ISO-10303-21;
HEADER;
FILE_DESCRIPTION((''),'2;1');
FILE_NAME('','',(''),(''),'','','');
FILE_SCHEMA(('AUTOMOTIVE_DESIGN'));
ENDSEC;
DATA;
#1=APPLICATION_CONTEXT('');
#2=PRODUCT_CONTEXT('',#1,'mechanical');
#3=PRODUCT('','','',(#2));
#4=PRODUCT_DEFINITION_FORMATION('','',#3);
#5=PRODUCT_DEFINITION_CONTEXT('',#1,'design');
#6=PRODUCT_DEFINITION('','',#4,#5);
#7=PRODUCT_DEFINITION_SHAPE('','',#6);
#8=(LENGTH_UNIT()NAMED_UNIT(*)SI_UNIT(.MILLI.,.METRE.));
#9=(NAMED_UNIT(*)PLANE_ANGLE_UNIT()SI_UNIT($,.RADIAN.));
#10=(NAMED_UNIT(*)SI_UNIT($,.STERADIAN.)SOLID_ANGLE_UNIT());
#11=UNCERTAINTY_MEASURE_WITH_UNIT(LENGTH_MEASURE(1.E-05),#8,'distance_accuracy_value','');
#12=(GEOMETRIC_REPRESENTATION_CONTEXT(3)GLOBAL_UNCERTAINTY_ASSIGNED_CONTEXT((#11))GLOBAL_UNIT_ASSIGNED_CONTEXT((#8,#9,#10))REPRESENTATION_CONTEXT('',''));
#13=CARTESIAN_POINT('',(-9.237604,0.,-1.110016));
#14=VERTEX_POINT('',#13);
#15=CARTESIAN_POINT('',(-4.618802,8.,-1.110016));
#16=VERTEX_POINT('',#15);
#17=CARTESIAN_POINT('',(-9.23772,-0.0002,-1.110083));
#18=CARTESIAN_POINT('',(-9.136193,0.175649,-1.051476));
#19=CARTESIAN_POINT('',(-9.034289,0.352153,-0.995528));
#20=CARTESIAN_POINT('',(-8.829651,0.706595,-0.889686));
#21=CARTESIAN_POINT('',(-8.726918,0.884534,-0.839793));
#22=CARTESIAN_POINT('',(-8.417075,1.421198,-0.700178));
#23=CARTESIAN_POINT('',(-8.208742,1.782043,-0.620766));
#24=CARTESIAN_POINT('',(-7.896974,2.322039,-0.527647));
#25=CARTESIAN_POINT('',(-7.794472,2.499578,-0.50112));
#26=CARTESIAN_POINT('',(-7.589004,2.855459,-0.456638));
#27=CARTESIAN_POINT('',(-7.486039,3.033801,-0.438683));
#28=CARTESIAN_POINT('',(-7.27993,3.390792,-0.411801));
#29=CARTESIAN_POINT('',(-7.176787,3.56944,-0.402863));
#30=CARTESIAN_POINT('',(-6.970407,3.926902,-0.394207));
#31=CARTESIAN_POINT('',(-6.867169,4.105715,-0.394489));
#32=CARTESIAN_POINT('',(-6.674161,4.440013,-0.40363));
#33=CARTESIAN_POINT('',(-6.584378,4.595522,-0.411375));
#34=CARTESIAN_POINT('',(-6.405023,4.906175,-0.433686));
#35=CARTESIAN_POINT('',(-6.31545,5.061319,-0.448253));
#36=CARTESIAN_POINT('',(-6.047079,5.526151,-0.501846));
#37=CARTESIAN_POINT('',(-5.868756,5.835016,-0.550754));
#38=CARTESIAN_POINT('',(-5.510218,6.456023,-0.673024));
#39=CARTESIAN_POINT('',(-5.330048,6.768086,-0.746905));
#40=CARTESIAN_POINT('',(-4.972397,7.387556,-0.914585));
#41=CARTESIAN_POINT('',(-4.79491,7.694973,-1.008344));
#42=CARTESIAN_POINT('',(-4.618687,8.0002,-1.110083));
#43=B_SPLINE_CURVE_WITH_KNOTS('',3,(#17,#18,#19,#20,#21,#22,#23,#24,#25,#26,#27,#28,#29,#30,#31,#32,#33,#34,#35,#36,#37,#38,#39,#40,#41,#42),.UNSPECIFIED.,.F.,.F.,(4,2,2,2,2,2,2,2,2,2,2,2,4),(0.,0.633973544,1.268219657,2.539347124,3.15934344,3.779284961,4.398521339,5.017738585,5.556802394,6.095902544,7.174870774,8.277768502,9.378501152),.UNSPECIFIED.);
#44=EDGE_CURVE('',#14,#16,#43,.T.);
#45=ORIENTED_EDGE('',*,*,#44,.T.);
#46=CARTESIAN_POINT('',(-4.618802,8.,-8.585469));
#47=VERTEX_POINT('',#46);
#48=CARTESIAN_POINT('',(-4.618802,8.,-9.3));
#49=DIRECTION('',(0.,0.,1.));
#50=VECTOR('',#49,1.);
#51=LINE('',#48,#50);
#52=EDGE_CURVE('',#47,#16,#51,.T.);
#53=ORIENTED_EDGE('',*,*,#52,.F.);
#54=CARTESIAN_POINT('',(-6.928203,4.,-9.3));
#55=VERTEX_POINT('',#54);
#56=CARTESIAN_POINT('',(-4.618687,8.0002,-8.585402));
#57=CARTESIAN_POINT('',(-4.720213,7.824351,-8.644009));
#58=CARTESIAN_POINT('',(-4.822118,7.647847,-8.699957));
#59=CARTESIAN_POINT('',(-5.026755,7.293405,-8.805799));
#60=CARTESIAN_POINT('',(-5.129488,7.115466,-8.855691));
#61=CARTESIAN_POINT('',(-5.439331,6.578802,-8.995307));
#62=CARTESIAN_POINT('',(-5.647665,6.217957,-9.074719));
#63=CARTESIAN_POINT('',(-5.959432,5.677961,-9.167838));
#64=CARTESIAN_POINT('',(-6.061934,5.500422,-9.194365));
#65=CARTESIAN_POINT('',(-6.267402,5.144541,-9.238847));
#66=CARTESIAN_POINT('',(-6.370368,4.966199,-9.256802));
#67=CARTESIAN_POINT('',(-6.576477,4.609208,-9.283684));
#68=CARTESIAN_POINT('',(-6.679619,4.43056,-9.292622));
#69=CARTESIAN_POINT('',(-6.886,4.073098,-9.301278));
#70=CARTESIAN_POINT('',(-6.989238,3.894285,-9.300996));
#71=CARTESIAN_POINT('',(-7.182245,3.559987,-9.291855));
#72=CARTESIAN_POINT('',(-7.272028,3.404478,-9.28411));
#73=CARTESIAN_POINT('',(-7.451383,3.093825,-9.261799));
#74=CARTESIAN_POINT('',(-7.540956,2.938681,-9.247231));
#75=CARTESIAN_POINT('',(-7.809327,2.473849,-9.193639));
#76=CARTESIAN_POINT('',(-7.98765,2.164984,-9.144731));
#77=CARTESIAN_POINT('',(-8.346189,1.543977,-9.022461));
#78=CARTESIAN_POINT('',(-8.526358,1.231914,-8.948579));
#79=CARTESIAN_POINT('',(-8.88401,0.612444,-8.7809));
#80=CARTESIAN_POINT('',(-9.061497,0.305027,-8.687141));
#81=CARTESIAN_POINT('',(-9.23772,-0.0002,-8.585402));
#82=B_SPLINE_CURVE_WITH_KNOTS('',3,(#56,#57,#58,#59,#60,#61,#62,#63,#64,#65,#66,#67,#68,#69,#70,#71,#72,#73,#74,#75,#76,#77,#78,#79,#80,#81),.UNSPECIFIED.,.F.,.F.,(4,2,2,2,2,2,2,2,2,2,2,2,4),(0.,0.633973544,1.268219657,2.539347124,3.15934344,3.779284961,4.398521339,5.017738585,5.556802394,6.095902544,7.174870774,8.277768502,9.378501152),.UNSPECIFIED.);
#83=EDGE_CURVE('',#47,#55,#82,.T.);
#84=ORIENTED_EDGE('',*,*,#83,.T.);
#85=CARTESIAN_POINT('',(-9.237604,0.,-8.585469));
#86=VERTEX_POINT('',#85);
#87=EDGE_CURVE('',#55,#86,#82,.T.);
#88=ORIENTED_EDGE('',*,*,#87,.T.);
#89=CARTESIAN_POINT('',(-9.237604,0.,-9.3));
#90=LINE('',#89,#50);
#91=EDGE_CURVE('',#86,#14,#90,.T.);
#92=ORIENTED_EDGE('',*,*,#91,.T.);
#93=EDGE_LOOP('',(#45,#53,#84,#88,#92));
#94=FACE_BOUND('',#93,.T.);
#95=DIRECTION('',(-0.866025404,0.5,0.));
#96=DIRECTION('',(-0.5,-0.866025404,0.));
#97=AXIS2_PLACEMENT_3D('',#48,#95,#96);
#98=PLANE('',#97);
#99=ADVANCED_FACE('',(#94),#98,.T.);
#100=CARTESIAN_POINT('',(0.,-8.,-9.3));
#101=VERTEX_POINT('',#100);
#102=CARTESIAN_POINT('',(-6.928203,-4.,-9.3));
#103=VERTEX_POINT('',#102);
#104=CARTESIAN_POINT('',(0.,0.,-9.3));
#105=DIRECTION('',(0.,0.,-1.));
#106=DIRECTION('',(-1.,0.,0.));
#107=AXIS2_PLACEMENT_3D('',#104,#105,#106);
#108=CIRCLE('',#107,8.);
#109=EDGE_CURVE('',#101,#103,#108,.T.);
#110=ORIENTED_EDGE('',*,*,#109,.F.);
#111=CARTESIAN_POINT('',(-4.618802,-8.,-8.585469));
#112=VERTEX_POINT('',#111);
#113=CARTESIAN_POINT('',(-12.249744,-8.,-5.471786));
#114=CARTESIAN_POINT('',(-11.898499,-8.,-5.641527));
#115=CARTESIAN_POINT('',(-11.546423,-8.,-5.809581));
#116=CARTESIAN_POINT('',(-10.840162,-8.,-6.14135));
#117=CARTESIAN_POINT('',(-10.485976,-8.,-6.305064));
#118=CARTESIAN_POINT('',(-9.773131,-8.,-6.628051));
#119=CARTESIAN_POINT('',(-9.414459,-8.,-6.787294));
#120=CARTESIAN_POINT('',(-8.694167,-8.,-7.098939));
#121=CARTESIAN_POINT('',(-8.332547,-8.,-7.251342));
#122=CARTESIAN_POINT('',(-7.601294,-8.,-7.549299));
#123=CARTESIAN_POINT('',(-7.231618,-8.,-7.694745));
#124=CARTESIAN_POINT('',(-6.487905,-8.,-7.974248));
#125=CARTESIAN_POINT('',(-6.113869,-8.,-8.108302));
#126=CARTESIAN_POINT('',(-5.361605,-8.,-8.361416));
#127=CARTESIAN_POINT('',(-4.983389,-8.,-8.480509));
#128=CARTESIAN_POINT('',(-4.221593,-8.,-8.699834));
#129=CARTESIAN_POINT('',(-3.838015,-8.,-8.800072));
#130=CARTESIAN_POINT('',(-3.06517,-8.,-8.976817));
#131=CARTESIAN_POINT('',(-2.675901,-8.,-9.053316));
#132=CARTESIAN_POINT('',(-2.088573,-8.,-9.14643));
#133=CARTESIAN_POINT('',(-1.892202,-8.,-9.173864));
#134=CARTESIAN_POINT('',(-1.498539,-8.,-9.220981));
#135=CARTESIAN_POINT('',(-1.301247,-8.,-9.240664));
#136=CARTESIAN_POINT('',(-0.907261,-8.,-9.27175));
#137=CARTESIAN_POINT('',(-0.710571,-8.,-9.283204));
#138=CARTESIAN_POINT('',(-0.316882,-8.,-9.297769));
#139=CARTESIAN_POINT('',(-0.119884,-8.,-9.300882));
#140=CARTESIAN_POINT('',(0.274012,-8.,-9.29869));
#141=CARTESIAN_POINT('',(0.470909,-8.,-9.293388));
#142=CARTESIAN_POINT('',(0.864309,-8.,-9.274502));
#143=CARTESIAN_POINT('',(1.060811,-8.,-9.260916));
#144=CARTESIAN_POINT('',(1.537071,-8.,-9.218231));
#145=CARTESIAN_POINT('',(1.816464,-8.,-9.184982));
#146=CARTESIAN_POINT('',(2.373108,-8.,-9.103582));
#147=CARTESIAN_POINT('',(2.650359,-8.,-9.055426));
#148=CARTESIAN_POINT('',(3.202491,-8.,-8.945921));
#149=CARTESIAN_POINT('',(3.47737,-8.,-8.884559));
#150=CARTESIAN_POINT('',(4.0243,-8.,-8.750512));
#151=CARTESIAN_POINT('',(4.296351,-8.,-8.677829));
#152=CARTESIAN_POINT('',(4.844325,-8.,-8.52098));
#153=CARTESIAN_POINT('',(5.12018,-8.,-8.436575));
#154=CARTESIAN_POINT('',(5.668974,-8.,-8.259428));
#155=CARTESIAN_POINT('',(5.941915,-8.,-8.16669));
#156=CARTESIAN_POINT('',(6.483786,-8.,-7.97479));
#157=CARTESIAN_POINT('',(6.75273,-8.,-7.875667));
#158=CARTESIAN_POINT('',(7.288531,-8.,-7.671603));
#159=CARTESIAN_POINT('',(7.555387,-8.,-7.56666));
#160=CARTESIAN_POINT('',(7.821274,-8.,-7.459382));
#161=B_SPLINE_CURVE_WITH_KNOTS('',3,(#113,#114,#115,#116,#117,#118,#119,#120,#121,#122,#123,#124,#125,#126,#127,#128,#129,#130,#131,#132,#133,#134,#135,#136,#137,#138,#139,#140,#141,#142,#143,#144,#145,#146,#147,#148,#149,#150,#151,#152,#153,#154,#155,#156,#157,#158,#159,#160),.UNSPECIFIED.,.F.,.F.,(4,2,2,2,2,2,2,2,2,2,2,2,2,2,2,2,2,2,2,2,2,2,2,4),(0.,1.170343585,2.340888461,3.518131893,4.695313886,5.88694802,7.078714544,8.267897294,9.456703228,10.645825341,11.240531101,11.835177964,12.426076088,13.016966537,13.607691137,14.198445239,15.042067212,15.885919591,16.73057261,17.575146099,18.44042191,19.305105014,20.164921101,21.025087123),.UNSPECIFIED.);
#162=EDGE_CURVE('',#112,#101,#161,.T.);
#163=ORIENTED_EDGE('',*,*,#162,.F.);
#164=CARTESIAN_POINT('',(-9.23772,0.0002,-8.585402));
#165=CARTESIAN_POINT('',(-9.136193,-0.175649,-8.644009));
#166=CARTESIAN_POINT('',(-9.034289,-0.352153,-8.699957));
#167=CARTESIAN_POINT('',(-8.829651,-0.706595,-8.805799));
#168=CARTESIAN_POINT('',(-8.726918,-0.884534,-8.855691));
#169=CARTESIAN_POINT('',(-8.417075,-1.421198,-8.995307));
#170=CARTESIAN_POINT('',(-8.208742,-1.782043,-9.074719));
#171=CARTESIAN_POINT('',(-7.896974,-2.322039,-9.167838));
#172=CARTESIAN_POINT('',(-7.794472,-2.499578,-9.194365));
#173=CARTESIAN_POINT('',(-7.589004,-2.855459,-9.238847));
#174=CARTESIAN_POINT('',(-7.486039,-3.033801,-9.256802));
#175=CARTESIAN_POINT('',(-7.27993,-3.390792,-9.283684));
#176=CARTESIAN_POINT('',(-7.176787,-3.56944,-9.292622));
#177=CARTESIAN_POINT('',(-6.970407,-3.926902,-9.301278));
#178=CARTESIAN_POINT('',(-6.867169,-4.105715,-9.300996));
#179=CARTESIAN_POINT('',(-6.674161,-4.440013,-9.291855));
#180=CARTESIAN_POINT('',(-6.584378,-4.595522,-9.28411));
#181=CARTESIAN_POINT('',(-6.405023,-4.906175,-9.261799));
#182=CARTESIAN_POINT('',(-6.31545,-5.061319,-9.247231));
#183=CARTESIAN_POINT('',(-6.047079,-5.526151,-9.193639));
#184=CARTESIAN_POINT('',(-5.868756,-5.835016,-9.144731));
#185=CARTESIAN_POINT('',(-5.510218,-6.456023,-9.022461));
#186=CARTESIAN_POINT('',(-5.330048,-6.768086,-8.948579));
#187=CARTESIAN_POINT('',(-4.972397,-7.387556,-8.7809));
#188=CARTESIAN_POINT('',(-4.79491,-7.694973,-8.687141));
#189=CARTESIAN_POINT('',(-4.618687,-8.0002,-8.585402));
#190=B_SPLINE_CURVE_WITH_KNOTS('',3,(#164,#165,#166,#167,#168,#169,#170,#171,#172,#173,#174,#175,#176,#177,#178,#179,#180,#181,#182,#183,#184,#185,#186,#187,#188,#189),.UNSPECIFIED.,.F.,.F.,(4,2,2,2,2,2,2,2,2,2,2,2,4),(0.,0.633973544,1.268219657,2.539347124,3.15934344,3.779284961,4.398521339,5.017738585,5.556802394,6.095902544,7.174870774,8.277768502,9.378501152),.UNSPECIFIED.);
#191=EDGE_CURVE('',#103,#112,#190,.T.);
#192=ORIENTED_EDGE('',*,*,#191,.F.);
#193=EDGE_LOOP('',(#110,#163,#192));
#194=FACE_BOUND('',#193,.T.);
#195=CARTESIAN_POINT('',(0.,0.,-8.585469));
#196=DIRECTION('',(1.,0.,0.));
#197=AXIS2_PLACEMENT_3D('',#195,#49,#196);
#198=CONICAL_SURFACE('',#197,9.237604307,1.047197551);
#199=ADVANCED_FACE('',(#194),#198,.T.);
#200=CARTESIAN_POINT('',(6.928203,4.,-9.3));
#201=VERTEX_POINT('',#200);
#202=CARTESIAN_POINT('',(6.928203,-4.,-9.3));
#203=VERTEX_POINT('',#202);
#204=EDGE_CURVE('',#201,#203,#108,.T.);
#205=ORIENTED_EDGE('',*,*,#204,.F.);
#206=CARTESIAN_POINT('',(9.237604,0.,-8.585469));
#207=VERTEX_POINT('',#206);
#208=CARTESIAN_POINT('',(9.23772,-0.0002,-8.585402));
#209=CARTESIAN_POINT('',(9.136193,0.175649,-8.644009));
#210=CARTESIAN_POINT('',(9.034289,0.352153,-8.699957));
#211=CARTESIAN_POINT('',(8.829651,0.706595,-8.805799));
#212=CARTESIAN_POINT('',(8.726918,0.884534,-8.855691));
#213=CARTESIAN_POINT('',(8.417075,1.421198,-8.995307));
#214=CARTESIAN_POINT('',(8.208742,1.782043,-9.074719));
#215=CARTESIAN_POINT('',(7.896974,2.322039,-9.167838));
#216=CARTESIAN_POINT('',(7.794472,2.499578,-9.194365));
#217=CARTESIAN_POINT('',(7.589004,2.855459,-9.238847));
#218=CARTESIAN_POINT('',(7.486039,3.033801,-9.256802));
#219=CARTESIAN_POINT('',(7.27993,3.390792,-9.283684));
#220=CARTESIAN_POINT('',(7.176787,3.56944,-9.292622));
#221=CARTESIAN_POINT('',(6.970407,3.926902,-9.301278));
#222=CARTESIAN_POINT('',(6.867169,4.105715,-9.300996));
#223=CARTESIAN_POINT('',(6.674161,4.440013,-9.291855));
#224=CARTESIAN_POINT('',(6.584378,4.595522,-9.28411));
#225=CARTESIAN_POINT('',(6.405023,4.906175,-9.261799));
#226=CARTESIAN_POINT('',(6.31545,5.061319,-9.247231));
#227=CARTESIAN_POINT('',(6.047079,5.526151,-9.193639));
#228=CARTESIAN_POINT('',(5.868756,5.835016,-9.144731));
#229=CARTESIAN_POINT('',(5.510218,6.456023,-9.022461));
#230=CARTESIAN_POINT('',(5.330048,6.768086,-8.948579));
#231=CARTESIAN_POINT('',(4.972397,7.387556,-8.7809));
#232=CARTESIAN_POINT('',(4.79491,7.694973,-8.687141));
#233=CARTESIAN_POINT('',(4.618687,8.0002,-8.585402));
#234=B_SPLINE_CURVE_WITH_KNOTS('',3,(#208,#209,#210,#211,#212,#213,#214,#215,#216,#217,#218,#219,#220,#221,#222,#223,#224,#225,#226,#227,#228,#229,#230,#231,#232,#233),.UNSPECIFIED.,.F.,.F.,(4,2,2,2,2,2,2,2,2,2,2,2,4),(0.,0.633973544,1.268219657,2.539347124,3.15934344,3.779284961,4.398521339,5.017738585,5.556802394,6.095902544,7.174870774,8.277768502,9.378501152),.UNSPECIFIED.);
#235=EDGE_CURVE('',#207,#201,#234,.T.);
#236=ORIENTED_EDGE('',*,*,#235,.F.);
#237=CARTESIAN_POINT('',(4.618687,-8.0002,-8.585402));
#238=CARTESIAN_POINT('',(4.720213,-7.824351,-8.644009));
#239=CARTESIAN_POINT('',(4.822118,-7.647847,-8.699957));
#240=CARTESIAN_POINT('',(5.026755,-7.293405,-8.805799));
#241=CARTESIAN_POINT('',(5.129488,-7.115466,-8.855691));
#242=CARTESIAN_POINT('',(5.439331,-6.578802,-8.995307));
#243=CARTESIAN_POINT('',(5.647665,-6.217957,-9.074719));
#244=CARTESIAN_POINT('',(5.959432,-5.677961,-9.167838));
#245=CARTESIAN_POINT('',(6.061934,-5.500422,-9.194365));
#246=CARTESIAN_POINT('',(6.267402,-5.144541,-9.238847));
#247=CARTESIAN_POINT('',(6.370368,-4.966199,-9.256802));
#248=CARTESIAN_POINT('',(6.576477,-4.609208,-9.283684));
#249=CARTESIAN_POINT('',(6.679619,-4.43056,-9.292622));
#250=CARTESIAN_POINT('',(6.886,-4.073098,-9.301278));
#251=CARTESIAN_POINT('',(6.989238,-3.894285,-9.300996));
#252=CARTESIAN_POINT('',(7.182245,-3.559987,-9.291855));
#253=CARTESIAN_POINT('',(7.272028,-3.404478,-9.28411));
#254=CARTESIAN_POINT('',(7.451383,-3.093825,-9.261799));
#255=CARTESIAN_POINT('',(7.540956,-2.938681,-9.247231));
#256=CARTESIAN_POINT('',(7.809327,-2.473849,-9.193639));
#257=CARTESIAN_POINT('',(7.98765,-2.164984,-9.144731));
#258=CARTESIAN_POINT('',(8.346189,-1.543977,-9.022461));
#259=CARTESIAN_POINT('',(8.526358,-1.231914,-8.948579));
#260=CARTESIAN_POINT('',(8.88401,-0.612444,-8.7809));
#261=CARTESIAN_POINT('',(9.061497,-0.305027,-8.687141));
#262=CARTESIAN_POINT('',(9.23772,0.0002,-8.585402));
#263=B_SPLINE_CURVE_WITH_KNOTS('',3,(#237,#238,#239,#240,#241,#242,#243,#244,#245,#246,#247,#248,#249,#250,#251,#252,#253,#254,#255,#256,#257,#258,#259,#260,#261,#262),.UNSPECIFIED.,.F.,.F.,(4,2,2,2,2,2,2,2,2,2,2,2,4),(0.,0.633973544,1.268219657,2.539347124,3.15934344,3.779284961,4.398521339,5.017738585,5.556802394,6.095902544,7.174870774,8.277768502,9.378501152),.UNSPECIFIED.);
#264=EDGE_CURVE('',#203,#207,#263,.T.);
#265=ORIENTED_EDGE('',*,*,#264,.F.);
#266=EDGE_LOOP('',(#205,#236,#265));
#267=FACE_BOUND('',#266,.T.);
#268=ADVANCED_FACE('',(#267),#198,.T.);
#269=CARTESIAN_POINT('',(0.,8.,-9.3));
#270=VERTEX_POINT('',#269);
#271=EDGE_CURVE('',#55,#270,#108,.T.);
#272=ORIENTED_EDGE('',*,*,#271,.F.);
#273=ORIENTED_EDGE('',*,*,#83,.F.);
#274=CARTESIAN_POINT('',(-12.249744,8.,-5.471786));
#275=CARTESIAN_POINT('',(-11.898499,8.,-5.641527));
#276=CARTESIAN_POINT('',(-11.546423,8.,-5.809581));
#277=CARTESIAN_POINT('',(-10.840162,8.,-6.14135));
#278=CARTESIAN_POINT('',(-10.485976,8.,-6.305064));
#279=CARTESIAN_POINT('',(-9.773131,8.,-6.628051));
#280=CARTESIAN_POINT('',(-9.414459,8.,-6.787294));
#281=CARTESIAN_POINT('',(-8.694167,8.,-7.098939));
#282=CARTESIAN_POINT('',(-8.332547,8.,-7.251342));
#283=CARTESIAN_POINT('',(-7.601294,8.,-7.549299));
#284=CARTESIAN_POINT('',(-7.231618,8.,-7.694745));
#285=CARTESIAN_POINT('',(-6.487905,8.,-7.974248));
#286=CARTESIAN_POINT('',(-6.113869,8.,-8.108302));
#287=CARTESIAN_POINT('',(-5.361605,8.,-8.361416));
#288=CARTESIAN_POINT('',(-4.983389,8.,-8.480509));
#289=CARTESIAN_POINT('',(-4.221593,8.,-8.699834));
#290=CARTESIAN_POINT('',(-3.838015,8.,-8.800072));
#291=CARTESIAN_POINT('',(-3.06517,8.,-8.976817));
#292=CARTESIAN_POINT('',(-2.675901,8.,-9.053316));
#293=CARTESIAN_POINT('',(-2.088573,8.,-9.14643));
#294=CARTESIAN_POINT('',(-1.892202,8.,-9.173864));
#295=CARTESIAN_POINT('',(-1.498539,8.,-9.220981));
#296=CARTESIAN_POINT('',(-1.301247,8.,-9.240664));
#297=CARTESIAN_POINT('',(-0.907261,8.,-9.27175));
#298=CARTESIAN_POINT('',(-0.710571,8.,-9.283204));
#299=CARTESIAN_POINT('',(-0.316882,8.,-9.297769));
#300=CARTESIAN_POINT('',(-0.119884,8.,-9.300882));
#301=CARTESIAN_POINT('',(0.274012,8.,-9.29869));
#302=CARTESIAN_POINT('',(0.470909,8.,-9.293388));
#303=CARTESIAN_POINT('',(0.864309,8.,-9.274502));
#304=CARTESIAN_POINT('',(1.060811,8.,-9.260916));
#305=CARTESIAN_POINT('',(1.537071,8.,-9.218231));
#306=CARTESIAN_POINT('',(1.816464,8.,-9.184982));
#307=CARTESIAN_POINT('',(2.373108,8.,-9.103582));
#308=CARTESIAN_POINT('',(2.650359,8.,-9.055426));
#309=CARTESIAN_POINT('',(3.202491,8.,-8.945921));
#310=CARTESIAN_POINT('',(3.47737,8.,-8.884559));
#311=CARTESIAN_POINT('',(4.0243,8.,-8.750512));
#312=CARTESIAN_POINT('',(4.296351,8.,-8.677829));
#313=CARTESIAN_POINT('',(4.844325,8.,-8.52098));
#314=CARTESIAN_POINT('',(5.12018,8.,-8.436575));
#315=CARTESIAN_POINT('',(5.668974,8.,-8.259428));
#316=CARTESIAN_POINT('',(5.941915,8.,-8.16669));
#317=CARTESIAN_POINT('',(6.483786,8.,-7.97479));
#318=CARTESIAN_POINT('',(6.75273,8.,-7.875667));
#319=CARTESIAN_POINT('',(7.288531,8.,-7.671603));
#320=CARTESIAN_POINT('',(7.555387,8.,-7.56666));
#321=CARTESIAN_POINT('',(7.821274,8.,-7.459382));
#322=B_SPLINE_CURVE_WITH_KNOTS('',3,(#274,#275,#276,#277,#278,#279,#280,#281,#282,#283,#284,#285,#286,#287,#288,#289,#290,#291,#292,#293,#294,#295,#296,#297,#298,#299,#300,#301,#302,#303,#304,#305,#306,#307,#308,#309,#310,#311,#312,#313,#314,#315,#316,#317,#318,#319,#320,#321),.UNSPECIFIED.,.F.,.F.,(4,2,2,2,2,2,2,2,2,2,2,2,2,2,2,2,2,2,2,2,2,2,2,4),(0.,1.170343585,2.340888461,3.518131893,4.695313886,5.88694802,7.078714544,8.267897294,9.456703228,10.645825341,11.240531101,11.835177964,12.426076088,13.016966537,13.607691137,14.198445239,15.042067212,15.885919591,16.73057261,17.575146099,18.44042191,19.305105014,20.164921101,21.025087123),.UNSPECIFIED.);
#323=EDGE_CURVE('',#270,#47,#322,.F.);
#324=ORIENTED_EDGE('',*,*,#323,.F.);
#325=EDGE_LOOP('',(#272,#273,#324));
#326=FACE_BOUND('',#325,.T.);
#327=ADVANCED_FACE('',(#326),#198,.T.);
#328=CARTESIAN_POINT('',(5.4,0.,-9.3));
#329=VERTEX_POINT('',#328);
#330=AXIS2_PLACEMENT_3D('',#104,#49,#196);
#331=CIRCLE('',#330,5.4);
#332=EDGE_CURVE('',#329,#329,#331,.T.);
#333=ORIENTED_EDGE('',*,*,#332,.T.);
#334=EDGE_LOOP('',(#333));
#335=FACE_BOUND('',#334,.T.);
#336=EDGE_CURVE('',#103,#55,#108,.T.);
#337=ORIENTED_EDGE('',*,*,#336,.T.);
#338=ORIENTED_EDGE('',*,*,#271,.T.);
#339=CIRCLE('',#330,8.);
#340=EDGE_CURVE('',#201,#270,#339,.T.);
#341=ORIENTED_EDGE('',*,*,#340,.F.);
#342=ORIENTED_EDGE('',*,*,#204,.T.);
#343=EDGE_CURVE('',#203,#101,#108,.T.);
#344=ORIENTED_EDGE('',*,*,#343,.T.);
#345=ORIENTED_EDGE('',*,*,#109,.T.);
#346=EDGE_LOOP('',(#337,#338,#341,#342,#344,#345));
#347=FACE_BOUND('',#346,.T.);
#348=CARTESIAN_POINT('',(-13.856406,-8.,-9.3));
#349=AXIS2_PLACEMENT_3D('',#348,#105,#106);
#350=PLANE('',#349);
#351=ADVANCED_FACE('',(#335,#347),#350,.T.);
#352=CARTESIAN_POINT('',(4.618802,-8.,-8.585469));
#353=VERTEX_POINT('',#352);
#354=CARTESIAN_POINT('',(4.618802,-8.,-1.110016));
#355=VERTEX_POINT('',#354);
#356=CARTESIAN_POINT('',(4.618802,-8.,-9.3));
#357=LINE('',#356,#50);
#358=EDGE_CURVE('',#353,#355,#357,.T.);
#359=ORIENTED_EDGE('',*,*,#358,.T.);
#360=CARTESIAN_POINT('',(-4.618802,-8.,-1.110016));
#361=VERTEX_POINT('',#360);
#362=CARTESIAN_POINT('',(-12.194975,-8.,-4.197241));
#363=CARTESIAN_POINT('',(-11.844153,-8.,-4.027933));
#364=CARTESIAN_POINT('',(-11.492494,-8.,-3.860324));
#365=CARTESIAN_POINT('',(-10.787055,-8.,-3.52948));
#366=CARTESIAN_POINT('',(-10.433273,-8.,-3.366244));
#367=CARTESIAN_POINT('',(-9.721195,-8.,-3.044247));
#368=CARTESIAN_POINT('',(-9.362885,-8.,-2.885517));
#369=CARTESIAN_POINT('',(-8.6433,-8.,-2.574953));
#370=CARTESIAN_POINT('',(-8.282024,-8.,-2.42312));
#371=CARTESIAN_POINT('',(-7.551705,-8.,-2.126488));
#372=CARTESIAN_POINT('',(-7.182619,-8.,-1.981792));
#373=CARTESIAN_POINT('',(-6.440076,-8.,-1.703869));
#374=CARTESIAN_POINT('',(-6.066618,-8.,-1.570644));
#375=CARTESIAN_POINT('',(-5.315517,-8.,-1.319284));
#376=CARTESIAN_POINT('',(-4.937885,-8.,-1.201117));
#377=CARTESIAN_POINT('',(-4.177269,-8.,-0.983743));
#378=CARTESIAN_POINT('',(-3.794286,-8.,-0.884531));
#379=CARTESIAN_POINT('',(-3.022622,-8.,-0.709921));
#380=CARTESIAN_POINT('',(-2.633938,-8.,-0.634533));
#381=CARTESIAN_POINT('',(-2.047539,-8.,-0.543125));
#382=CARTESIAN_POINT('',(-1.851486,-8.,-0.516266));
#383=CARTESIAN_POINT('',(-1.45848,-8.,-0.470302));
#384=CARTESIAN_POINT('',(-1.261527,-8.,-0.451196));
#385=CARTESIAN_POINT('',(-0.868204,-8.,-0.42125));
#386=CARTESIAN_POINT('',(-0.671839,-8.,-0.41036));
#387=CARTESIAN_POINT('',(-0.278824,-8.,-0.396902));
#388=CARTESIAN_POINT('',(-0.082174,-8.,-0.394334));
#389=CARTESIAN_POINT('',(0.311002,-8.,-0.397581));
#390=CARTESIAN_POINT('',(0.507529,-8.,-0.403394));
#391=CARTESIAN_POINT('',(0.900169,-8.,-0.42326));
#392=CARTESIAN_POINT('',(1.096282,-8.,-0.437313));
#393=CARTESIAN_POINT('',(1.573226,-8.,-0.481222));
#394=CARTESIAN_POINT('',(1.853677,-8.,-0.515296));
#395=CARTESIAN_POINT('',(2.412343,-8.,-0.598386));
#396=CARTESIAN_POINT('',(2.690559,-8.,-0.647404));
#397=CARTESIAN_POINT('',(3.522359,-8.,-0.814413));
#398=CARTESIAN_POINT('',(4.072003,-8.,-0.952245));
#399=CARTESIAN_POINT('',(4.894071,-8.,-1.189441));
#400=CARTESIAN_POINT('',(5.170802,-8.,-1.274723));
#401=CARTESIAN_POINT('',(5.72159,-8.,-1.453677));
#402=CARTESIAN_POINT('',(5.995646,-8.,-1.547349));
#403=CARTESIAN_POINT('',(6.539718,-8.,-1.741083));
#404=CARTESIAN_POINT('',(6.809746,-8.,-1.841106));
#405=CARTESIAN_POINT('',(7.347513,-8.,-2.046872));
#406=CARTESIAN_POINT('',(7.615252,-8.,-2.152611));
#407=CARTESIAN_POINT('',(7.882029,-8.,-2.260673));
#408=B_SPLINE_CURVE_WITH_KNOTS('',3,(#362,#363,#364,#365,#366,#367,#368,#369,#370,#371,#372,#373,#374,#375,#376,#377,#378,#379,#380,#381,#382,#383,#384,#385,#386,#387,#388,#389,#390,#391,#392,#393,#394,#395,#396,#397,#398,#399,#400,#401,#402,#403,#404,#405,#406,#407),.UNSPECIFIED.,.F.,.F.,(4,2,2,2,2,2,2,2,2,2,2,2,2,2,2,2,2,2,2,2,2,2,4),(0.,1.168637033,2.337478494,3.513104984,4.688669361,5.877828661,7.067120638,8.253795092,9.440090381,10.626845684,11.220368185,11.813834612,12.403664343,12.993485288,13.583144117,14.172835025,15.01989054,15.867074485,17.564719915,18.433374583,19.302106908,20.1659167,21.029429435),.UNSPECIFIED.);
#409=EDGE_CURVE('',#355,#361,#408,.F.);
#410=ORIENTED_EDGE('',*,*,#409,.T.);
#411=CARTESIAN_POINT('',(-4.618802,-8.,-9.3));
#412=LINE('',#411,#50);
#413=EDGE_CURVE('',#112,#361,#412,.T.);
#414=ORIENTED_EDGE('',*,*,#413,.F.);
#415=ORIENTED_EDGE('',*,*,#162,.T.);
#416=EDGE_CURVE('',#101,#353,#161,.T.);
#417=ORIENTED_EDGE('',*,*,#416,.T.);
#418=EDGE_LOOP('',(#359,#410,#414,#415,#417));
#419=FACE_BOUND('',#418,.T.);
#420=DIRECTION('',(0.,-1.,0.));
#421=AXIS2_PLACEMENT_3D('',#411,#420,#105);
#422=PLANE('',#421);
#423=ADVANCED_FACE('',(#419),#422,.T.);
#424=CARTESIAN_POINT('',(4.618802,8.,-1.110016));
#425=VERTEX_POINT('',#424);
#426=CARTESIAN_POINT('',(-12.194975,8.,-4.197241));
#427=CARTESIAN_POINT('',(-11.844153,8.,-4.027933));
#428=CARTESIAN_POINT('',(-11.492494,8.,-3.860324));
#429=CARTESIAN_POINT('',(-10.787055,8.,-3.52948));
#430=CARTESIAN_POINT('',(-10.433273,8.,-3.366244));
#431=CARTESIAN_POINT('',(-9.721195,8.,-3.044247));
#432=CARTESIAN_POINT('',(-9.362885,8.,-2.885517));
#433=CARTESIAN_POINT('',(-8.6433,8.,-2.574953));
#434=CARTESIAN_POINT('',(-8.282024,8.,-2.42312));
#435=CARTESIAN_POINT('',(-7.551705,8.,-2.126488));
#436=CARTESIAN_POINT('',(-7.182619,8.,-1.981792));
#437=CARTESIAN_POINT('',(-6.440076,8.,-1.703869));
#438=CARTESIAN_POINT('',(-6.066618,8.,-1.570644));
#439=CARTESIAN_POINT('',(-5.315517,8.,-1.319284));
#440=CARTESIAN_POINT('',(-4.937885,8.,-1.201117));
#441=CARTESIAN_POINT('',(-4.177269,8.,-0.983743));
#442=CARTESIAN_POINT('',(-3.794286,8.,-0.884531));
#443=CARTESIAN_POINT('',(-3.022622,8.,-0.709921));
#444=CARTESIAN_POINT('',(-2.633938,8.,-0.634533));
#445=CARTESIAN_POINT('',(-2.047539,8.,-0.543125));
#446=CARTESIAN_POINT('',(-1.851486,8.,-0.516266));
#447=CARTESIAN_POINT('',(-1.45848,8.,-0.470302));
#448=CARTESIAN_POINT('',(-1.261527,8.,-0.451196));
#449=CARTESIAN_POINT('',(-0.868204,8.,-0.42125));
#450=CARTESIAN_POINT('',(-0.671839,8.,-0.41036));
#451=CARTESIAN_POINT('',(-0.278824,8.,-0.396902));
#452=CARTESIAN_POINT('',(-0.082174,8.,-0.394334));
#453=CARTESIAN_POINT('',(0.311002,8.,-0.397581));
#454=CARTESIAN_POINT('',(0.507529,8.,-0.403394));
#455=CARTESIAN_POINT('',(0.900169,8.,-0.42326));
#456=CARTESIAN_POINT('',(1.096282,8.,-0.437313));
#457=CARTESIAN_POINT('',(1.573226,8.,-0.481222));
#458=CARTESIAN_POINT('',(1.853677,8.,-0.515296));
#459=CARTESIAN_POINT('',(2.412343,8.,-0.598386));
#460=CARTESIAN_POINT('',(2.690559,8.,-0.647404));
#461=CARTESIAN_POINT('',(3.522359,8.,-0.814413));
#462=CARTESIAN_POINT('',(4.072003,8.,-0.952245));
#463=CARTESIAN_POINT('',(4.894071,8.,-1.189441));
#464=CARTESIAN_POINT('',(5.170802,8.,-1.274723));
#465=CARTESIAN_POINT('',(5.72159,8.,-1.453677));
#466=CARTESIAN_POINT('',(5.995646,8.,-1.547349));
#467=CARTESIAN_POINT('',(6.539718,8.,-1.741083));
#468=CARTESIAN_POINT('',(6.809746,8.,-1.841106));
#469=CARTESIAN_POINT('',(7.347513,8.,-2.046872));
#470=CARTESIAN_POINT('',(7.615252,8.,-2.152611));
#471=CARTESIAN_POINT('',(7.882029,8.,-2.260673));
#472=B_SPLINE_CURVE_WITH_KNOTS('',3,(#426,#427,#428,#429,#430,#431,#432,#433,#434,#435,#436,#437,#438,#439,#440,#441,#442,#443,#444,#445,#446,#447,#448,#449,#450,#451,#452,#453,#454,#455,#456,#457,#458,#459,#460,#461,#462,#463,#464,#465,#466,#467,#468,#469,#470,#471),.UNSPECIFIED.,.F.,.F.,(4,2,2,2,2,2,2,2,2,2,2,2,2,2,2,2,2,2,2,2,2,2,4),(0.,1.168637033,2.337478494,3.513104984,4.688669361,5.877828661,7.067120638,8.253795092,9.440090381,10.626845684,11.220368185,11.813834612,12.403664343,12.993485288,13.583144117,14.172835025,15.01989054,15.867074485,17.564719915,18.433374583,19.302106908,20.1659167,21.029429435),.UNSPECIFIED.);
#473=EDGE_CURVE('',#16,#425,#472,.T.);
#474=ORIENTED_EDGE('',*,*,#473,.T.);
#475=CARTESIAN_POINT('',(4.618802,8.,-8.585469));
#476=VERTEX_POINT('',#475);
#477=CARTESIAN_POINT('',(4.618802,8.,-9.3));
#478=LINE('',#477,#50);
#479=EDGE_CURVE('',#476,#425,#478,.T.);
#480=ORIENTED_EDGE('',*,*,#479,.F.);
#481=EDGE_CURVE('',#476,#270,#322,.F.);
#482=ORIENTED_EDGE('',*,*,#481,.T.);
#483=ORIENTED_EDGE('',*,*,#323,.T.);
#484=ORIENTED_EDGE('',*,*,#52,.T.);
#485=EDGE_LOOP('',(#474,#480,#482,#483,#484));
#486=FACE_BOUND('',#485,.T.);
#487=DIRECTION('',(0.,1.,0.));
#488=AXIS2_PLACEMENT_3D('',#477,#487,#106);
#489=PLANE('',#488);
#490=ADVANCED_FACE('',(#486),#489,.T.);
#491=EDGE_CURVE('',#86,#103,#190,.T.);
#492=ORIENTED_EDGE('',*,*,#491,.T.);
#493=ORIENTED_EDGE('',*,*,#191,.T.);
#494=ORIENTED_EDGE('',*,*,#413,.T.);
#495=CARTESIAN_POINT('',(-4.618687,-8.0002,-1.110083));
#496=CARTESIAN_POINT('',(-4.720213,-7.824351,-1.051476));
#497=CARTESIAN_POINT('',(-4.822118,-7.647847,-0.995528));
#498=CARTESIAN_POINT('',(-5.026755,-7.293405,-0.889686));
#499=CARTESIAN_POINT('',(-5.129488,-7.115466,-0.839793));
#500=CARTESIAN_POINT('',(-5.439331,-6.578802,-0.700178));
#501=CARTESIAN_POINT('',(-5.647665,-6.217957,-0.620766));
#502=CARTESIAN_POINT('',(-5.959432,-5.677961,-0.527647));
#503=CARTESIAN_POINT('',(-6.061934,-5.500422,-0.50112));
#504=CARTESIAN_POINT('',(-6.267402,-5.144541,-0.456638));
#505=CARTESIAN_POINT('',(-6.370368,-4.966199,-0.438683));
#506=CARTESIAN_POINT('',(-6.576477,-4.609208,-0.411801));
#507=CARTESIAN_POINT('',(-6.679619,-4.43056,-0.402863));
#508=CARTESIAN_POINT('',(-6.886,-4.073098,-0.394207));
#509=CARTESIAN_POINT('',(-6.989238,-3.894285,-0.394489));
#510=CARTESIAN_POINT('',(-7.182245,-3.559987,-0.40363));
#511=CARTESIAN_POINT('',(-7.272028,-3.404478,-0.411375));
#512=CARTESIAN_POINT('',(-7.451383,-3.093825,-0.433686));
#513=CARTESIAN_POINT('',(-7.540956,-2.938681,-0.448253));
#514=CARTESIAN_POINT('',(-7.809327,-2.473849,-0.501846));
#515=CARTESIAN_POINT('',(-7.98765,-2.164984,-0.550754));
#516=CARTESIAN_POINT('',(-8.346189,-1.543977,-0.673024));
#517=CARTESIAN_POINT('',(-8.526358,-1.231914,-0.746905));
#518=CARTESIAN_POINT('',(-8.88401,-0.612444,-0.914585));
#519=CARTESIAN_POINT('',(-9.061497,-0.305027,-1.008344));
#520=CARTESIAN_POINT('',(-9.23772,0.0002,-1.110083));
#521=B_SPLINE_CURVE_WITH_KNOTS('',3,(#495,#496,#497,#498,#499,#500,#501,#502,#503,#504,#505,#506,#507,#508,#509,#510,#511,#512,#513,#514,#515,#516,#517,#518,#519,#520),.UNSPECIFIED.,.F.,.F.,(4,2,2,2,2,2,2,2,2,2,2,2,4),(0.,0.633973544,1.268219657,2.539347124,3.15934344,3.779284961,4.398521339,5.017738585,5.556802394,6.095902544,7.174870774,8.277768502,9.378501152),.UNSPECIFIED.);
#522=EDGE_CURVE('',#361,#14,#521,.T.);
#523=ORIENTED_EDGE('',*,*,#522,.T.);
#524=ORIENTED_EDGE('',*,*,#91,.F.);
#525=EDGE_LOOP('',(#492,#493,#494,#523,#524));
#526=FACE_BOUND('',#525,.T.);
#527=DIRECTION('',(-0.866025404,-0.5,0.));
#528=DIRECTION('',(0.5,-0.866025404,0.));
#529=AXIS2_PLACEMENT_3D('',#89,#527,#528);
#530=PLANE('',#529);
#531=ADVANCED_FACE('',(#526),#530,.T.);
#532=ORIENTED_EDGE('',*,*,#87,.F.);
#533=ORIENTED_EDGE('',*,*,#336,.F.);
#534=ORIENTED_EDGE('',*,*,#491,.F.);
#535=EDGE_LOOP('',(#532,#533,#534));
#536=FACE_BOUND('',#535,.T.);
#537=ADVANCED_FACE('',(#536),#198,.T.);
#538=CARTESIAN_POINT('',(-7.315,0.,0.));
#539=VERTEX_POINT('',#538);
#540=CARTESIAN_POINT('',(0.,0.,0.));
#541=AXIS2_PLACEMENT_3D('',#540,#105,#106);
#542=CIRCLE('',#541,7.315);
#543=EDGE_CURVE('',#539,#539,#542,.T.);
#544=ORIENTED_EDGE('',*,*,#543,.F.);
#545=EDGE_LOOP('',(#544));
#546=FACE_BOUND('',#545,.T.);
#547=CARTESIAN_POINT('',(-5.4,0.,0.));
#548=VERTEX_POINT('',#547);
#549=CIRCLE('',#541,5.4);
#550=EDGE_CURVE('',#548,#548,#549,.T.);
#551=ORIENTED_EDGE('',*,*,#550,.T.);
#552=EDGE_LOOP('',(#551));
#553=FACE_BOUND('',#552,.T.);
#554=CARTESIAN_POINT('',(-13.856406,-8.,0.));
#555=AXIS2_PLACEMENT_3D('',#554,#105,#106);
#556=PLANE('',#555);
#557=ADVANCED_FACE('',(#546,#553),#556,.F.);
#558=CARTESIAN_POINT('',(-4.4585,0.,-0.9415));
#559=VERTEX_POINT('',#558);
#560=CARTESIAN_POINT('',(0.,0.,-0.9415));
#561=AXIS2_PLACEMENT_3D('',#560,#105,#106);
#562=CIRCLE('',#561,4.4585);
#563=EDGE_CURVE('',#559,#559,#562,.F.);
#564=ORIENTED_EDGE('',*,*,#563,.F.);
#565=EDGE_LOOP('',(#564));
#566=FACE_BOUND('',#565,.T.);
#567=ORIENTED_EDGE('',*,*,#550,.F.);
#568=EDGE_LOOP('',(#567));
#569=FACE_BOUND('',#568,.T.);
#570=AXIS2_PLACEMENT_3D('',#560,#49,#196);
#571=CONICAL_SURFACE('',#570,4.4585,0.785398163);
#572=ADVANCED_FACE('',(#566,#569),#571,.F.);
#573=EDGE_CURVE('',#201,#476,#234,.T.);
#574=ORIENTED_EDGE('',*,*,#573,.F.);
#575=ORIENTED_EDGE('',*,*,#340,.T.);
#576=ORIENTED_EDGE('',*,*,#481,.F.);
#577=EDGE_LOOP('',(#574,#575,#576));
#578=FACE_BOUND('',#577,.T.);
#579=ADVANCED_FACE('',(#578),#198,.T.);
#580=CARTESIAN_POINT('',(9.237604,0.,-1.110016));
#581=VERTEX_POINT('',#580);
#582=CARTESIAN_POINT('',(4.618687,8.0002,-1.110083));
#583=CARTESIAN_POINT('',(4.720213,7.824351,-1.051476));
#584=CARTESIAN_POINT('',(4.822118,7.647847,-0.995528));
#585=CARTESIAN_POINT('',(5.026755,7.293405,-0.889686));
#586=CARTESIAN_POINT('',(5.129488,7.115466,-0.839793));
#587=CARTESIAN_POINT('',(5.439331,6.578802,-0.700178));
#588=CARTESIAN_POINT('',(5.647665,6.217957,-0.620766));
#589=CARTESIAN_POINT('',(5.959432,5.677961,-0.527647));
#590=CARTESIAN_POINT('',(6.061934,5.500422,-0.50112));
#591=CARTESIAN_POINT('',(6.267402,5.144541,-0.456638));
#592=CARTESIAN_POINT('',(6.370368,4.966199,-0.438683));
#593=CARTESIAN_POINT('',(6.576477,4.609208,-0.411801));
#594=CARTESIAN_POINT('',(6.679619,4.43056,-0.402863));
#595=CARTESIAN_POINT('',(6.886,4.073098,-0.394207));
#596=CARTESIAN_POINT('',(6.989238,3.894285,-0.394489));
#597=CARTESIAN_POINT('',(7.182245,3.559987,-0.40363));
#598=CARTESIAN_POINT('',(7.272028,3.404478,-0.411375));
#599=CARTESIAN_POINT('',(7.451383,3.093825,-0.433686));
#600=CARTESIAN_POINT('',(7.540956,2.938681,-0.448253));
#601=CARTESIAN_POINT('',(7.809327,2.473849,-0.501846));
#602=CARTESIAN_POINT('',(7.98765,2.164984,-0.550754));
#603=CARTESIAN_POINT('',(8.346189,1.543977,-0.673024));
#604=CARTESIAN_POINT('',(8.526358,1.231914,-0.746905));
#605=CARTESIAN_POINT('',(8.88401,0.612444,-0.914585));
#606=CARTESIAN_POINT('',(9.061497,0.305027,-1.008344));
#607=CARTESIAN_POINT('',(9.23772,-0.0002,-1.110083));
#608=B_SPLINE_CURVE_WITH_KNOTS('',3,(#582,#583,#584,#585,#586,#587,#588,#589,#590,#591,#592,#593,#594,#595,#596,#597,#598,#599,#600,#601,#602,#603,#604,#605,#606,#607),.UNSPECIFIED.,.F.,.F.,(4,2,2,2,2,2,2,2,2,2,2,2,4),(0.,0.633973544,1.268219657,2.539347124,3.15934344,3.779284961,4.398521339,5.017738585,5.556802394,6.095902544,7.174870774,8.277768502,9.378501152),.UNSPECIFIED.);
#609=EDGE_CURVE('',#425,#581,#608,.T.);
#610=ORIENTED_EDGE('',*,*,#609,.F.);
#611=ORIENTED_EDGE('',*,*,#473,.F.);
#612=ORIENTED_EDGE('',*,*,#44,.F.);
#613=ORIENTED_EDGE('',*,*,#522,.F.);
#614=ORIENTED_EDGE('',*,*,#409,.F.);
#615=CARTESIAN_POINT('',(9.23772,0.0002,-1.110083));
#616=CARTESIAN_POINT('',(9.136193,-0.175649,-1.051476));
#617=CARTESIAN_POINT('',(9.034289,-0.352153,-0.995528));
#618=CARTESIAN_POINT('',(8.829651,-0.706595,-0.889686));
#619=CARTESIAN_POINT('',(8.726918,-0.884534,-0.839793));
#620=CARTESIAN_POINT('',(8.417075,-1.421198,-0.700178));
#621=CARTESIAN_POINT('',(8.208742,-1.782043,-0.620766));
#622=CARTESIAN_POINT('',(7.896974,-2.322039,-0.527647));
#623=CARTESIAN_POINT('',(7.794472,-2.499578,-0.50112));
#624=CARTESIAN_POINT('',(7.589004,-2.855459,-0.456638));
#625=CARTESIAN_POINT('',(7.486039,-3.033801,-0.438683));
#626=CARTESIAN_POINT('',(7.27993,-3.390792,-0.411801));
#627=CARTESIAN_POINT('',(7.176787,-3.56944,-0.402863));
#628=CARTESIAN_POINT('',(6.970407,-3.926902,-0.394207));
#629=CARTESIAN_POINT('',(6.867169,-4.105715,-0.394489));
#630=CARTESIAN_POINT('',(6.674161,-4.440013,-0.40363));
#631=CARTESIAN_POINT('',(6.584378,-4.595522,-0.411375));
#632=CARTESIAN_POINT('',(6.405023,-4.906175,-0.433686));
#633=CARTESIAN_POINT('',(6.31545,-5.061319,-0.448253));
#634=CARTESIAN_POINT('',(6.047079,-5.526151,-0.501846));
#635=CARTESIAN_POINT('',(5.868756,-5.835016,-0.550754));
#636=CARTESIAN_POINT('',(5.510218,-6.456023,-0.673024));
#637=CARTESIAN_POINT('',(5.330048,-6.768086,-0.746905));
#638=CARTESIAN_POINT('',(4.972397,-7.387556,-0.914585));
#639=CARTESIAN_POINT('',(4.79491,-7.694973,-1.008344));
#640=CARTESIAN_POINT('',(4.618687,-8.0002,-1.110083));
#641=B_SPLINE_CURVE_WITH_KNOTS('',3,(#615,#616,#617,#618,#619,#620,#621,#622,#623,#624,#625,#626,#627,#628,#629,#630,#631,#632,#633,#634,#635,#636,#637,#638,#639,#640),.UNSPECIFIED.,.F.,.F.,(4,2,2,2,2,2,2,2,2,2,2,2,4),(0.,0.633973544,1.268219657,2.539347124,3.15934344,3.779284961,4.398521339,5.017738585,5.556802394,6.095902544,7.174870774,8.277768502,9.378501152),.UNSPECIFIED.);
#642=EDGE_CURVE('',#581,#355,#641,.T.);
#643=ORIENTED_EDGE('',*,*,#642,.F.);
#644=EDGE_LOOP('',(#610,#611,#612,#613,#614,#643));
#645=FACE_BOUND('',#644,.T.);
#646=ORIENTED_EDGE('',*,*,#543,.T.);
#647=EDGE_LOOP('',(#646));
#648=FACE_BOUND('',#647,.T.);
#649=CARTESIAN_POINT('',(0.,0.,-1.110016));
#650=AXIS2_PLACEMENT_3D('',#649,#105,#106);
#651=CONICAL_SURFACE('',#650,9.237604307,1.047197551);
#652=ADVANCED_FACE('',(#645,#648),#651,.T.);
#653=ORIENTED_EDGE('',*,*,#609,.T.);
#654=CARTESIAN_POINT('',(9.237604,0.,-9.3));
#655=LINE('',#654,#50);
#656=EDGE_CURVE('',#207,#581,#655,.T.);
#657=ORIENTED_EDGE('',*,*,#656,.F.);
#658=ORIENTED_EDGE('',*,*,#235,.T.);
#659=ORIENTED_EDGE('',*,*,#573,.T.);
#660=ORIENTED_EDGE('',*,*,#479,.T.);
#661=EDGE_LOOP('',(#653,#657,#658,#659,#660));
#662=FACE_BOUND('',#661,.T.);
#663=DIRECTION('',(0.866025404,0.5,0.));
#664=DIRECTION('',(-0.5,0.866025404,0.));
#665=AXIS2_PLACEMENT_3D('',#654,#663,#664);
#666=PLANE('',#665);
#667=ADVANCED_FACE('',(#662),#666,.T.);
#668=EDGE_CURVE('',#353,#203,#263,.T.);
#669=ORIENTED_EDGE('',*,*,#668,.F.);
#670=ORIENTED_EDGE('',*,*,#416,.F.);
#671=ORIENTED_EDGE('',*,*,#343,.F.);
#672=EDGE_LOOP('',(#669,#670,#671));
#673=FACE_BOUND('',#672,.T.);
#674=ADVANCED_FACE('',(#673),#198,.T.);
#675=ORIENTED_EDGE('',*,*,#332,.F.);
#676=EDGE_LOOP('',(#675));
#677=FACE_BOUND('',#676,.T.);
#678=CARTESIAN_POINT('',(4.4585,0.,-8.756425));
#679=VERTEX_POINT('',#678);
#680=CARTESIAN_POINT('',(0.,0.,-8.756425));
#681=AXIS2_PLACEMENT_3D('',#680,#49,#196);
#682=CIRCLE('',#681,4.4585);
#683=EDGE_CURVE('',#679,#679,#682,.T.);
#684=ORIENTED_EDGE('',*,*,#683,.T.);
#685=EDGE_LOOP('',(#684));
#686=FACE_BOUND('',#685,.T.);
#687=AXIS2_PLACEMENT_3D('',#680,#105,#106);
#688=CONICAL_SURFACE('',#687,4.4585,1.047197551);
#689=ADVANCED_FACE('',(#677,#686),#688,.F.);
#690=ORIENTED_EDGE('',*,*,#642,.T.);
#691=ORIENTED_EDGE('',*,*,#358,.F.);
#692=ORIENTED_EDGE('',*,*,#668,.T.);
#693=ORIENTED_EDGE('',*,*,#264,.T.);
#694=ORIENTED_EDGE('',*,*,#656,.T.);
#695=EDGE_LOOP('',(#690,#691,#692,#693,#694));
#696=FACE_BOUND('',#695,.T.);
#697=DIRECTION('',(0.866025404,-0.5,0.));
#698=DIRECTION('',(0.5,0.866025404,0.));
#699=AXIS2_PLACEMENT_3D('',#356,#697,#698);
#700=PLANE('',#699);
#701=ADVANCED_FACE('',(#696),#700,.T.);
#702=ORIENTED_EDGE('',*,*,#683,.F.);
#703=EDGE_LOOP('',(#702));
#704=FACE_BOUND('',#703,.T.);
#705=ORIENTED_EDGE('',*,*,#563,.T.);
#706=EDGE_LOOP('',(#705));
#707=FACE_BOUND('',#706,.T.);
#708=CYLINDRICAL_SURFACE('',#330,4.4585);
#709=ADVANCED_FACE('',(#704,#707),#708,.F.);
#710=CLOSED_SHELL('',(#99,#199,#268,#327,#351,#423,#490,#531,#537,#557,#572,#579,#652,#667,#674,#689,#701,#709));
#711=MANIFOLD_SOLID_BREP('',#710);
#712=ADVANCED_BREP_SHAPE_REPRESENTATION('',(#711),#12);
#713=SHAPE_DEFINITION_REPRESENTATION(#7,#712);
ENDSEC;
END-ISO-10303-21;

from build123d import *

# Parameters (mm, degrees)
SKETCH1_R        = 4.4585
BASENUT_DEPTH    = 9.3
ENDCHAMFER2_SIZE = 0.9415


with BuildPart() as part:
    # Sketch1 → BaseNut (new body)
    with BuildSketch(Plane.XY):
        Polygon((4.618802154, -8), (9.237604307, 0), (4.618802154, 8), (-4.618802154, 8), (-9.237604307, 0), (-4.618802154, -8), align=None)
        Circle(SKETCH1_R, mode=Mode.SUBTRACT)
    extrude(amount=-BASENUT_DEPTH)

    # Sketch2 → Chamfer1 (revolve, cut)
    with BuildSketch(Plane(origin=(15.04811501, 0, -16.706149795), x_dir=(0, 0, -1), z_dir=(0, 1, 0))):
        Polygon((-8.120680975, 24.285719317), (-7.406149795, 23.04811501), (-7.406149795, 24.285719317), align=None)
    revolve(axis=Axis((0, 0, 7.016501752), (0, 0, -1)), mode=Mode.SUBTRACT)

    # Sketch6 → EndChamfer1 (revolve, cut)
    with BuildSketch(Plane(origin=(-9.197458863, 0, -10.252541137), x_dir=(0, 0, 1), z_dir=(0, 1, 0))):
        Polygon((0.952541137, 13.655958863), (0.952541137, 14.597458863), (1.496116416, 13.655958863), align=None)
    revolve(axis=Axis((0, 0, 13.104863586), (0, 0, -1)), mode=Mode.SUBTRACT)

    # Sketch5 → Chamfer2 (revolve, cut)
    with BuildSketch(Plane(origin=(-14.793032735, 0, -16.96123207), x_dir=(0, 0, 1), z_dir=(0, 1, 0)), mode=Mode.PRIVATE) as chamfer2_sk:
        Polygon((16.96123207, 22.108032735), (16.96123207, 24.030637042), (15.851215956, 24.030637042), align=None)
    revolve(chamfer2_sk.sketch.rotate(Axis((0, 0, -39.536013381), (0, 0, 1)), 180), axis=Axis((0, 0, -39.536013381), (0, 0, 1)), mode=Mode.SUBTRACT)

    # EndChamfer2
    endchamfer2_edges = [part.edges().sort_by_distance(p)[0] for p in [
        (-4.4585, 0, 0),
    ]]
    chamfer(endchamfer2_edges, length=ENDCHAMFER2_SIZE)


solid = part.part
